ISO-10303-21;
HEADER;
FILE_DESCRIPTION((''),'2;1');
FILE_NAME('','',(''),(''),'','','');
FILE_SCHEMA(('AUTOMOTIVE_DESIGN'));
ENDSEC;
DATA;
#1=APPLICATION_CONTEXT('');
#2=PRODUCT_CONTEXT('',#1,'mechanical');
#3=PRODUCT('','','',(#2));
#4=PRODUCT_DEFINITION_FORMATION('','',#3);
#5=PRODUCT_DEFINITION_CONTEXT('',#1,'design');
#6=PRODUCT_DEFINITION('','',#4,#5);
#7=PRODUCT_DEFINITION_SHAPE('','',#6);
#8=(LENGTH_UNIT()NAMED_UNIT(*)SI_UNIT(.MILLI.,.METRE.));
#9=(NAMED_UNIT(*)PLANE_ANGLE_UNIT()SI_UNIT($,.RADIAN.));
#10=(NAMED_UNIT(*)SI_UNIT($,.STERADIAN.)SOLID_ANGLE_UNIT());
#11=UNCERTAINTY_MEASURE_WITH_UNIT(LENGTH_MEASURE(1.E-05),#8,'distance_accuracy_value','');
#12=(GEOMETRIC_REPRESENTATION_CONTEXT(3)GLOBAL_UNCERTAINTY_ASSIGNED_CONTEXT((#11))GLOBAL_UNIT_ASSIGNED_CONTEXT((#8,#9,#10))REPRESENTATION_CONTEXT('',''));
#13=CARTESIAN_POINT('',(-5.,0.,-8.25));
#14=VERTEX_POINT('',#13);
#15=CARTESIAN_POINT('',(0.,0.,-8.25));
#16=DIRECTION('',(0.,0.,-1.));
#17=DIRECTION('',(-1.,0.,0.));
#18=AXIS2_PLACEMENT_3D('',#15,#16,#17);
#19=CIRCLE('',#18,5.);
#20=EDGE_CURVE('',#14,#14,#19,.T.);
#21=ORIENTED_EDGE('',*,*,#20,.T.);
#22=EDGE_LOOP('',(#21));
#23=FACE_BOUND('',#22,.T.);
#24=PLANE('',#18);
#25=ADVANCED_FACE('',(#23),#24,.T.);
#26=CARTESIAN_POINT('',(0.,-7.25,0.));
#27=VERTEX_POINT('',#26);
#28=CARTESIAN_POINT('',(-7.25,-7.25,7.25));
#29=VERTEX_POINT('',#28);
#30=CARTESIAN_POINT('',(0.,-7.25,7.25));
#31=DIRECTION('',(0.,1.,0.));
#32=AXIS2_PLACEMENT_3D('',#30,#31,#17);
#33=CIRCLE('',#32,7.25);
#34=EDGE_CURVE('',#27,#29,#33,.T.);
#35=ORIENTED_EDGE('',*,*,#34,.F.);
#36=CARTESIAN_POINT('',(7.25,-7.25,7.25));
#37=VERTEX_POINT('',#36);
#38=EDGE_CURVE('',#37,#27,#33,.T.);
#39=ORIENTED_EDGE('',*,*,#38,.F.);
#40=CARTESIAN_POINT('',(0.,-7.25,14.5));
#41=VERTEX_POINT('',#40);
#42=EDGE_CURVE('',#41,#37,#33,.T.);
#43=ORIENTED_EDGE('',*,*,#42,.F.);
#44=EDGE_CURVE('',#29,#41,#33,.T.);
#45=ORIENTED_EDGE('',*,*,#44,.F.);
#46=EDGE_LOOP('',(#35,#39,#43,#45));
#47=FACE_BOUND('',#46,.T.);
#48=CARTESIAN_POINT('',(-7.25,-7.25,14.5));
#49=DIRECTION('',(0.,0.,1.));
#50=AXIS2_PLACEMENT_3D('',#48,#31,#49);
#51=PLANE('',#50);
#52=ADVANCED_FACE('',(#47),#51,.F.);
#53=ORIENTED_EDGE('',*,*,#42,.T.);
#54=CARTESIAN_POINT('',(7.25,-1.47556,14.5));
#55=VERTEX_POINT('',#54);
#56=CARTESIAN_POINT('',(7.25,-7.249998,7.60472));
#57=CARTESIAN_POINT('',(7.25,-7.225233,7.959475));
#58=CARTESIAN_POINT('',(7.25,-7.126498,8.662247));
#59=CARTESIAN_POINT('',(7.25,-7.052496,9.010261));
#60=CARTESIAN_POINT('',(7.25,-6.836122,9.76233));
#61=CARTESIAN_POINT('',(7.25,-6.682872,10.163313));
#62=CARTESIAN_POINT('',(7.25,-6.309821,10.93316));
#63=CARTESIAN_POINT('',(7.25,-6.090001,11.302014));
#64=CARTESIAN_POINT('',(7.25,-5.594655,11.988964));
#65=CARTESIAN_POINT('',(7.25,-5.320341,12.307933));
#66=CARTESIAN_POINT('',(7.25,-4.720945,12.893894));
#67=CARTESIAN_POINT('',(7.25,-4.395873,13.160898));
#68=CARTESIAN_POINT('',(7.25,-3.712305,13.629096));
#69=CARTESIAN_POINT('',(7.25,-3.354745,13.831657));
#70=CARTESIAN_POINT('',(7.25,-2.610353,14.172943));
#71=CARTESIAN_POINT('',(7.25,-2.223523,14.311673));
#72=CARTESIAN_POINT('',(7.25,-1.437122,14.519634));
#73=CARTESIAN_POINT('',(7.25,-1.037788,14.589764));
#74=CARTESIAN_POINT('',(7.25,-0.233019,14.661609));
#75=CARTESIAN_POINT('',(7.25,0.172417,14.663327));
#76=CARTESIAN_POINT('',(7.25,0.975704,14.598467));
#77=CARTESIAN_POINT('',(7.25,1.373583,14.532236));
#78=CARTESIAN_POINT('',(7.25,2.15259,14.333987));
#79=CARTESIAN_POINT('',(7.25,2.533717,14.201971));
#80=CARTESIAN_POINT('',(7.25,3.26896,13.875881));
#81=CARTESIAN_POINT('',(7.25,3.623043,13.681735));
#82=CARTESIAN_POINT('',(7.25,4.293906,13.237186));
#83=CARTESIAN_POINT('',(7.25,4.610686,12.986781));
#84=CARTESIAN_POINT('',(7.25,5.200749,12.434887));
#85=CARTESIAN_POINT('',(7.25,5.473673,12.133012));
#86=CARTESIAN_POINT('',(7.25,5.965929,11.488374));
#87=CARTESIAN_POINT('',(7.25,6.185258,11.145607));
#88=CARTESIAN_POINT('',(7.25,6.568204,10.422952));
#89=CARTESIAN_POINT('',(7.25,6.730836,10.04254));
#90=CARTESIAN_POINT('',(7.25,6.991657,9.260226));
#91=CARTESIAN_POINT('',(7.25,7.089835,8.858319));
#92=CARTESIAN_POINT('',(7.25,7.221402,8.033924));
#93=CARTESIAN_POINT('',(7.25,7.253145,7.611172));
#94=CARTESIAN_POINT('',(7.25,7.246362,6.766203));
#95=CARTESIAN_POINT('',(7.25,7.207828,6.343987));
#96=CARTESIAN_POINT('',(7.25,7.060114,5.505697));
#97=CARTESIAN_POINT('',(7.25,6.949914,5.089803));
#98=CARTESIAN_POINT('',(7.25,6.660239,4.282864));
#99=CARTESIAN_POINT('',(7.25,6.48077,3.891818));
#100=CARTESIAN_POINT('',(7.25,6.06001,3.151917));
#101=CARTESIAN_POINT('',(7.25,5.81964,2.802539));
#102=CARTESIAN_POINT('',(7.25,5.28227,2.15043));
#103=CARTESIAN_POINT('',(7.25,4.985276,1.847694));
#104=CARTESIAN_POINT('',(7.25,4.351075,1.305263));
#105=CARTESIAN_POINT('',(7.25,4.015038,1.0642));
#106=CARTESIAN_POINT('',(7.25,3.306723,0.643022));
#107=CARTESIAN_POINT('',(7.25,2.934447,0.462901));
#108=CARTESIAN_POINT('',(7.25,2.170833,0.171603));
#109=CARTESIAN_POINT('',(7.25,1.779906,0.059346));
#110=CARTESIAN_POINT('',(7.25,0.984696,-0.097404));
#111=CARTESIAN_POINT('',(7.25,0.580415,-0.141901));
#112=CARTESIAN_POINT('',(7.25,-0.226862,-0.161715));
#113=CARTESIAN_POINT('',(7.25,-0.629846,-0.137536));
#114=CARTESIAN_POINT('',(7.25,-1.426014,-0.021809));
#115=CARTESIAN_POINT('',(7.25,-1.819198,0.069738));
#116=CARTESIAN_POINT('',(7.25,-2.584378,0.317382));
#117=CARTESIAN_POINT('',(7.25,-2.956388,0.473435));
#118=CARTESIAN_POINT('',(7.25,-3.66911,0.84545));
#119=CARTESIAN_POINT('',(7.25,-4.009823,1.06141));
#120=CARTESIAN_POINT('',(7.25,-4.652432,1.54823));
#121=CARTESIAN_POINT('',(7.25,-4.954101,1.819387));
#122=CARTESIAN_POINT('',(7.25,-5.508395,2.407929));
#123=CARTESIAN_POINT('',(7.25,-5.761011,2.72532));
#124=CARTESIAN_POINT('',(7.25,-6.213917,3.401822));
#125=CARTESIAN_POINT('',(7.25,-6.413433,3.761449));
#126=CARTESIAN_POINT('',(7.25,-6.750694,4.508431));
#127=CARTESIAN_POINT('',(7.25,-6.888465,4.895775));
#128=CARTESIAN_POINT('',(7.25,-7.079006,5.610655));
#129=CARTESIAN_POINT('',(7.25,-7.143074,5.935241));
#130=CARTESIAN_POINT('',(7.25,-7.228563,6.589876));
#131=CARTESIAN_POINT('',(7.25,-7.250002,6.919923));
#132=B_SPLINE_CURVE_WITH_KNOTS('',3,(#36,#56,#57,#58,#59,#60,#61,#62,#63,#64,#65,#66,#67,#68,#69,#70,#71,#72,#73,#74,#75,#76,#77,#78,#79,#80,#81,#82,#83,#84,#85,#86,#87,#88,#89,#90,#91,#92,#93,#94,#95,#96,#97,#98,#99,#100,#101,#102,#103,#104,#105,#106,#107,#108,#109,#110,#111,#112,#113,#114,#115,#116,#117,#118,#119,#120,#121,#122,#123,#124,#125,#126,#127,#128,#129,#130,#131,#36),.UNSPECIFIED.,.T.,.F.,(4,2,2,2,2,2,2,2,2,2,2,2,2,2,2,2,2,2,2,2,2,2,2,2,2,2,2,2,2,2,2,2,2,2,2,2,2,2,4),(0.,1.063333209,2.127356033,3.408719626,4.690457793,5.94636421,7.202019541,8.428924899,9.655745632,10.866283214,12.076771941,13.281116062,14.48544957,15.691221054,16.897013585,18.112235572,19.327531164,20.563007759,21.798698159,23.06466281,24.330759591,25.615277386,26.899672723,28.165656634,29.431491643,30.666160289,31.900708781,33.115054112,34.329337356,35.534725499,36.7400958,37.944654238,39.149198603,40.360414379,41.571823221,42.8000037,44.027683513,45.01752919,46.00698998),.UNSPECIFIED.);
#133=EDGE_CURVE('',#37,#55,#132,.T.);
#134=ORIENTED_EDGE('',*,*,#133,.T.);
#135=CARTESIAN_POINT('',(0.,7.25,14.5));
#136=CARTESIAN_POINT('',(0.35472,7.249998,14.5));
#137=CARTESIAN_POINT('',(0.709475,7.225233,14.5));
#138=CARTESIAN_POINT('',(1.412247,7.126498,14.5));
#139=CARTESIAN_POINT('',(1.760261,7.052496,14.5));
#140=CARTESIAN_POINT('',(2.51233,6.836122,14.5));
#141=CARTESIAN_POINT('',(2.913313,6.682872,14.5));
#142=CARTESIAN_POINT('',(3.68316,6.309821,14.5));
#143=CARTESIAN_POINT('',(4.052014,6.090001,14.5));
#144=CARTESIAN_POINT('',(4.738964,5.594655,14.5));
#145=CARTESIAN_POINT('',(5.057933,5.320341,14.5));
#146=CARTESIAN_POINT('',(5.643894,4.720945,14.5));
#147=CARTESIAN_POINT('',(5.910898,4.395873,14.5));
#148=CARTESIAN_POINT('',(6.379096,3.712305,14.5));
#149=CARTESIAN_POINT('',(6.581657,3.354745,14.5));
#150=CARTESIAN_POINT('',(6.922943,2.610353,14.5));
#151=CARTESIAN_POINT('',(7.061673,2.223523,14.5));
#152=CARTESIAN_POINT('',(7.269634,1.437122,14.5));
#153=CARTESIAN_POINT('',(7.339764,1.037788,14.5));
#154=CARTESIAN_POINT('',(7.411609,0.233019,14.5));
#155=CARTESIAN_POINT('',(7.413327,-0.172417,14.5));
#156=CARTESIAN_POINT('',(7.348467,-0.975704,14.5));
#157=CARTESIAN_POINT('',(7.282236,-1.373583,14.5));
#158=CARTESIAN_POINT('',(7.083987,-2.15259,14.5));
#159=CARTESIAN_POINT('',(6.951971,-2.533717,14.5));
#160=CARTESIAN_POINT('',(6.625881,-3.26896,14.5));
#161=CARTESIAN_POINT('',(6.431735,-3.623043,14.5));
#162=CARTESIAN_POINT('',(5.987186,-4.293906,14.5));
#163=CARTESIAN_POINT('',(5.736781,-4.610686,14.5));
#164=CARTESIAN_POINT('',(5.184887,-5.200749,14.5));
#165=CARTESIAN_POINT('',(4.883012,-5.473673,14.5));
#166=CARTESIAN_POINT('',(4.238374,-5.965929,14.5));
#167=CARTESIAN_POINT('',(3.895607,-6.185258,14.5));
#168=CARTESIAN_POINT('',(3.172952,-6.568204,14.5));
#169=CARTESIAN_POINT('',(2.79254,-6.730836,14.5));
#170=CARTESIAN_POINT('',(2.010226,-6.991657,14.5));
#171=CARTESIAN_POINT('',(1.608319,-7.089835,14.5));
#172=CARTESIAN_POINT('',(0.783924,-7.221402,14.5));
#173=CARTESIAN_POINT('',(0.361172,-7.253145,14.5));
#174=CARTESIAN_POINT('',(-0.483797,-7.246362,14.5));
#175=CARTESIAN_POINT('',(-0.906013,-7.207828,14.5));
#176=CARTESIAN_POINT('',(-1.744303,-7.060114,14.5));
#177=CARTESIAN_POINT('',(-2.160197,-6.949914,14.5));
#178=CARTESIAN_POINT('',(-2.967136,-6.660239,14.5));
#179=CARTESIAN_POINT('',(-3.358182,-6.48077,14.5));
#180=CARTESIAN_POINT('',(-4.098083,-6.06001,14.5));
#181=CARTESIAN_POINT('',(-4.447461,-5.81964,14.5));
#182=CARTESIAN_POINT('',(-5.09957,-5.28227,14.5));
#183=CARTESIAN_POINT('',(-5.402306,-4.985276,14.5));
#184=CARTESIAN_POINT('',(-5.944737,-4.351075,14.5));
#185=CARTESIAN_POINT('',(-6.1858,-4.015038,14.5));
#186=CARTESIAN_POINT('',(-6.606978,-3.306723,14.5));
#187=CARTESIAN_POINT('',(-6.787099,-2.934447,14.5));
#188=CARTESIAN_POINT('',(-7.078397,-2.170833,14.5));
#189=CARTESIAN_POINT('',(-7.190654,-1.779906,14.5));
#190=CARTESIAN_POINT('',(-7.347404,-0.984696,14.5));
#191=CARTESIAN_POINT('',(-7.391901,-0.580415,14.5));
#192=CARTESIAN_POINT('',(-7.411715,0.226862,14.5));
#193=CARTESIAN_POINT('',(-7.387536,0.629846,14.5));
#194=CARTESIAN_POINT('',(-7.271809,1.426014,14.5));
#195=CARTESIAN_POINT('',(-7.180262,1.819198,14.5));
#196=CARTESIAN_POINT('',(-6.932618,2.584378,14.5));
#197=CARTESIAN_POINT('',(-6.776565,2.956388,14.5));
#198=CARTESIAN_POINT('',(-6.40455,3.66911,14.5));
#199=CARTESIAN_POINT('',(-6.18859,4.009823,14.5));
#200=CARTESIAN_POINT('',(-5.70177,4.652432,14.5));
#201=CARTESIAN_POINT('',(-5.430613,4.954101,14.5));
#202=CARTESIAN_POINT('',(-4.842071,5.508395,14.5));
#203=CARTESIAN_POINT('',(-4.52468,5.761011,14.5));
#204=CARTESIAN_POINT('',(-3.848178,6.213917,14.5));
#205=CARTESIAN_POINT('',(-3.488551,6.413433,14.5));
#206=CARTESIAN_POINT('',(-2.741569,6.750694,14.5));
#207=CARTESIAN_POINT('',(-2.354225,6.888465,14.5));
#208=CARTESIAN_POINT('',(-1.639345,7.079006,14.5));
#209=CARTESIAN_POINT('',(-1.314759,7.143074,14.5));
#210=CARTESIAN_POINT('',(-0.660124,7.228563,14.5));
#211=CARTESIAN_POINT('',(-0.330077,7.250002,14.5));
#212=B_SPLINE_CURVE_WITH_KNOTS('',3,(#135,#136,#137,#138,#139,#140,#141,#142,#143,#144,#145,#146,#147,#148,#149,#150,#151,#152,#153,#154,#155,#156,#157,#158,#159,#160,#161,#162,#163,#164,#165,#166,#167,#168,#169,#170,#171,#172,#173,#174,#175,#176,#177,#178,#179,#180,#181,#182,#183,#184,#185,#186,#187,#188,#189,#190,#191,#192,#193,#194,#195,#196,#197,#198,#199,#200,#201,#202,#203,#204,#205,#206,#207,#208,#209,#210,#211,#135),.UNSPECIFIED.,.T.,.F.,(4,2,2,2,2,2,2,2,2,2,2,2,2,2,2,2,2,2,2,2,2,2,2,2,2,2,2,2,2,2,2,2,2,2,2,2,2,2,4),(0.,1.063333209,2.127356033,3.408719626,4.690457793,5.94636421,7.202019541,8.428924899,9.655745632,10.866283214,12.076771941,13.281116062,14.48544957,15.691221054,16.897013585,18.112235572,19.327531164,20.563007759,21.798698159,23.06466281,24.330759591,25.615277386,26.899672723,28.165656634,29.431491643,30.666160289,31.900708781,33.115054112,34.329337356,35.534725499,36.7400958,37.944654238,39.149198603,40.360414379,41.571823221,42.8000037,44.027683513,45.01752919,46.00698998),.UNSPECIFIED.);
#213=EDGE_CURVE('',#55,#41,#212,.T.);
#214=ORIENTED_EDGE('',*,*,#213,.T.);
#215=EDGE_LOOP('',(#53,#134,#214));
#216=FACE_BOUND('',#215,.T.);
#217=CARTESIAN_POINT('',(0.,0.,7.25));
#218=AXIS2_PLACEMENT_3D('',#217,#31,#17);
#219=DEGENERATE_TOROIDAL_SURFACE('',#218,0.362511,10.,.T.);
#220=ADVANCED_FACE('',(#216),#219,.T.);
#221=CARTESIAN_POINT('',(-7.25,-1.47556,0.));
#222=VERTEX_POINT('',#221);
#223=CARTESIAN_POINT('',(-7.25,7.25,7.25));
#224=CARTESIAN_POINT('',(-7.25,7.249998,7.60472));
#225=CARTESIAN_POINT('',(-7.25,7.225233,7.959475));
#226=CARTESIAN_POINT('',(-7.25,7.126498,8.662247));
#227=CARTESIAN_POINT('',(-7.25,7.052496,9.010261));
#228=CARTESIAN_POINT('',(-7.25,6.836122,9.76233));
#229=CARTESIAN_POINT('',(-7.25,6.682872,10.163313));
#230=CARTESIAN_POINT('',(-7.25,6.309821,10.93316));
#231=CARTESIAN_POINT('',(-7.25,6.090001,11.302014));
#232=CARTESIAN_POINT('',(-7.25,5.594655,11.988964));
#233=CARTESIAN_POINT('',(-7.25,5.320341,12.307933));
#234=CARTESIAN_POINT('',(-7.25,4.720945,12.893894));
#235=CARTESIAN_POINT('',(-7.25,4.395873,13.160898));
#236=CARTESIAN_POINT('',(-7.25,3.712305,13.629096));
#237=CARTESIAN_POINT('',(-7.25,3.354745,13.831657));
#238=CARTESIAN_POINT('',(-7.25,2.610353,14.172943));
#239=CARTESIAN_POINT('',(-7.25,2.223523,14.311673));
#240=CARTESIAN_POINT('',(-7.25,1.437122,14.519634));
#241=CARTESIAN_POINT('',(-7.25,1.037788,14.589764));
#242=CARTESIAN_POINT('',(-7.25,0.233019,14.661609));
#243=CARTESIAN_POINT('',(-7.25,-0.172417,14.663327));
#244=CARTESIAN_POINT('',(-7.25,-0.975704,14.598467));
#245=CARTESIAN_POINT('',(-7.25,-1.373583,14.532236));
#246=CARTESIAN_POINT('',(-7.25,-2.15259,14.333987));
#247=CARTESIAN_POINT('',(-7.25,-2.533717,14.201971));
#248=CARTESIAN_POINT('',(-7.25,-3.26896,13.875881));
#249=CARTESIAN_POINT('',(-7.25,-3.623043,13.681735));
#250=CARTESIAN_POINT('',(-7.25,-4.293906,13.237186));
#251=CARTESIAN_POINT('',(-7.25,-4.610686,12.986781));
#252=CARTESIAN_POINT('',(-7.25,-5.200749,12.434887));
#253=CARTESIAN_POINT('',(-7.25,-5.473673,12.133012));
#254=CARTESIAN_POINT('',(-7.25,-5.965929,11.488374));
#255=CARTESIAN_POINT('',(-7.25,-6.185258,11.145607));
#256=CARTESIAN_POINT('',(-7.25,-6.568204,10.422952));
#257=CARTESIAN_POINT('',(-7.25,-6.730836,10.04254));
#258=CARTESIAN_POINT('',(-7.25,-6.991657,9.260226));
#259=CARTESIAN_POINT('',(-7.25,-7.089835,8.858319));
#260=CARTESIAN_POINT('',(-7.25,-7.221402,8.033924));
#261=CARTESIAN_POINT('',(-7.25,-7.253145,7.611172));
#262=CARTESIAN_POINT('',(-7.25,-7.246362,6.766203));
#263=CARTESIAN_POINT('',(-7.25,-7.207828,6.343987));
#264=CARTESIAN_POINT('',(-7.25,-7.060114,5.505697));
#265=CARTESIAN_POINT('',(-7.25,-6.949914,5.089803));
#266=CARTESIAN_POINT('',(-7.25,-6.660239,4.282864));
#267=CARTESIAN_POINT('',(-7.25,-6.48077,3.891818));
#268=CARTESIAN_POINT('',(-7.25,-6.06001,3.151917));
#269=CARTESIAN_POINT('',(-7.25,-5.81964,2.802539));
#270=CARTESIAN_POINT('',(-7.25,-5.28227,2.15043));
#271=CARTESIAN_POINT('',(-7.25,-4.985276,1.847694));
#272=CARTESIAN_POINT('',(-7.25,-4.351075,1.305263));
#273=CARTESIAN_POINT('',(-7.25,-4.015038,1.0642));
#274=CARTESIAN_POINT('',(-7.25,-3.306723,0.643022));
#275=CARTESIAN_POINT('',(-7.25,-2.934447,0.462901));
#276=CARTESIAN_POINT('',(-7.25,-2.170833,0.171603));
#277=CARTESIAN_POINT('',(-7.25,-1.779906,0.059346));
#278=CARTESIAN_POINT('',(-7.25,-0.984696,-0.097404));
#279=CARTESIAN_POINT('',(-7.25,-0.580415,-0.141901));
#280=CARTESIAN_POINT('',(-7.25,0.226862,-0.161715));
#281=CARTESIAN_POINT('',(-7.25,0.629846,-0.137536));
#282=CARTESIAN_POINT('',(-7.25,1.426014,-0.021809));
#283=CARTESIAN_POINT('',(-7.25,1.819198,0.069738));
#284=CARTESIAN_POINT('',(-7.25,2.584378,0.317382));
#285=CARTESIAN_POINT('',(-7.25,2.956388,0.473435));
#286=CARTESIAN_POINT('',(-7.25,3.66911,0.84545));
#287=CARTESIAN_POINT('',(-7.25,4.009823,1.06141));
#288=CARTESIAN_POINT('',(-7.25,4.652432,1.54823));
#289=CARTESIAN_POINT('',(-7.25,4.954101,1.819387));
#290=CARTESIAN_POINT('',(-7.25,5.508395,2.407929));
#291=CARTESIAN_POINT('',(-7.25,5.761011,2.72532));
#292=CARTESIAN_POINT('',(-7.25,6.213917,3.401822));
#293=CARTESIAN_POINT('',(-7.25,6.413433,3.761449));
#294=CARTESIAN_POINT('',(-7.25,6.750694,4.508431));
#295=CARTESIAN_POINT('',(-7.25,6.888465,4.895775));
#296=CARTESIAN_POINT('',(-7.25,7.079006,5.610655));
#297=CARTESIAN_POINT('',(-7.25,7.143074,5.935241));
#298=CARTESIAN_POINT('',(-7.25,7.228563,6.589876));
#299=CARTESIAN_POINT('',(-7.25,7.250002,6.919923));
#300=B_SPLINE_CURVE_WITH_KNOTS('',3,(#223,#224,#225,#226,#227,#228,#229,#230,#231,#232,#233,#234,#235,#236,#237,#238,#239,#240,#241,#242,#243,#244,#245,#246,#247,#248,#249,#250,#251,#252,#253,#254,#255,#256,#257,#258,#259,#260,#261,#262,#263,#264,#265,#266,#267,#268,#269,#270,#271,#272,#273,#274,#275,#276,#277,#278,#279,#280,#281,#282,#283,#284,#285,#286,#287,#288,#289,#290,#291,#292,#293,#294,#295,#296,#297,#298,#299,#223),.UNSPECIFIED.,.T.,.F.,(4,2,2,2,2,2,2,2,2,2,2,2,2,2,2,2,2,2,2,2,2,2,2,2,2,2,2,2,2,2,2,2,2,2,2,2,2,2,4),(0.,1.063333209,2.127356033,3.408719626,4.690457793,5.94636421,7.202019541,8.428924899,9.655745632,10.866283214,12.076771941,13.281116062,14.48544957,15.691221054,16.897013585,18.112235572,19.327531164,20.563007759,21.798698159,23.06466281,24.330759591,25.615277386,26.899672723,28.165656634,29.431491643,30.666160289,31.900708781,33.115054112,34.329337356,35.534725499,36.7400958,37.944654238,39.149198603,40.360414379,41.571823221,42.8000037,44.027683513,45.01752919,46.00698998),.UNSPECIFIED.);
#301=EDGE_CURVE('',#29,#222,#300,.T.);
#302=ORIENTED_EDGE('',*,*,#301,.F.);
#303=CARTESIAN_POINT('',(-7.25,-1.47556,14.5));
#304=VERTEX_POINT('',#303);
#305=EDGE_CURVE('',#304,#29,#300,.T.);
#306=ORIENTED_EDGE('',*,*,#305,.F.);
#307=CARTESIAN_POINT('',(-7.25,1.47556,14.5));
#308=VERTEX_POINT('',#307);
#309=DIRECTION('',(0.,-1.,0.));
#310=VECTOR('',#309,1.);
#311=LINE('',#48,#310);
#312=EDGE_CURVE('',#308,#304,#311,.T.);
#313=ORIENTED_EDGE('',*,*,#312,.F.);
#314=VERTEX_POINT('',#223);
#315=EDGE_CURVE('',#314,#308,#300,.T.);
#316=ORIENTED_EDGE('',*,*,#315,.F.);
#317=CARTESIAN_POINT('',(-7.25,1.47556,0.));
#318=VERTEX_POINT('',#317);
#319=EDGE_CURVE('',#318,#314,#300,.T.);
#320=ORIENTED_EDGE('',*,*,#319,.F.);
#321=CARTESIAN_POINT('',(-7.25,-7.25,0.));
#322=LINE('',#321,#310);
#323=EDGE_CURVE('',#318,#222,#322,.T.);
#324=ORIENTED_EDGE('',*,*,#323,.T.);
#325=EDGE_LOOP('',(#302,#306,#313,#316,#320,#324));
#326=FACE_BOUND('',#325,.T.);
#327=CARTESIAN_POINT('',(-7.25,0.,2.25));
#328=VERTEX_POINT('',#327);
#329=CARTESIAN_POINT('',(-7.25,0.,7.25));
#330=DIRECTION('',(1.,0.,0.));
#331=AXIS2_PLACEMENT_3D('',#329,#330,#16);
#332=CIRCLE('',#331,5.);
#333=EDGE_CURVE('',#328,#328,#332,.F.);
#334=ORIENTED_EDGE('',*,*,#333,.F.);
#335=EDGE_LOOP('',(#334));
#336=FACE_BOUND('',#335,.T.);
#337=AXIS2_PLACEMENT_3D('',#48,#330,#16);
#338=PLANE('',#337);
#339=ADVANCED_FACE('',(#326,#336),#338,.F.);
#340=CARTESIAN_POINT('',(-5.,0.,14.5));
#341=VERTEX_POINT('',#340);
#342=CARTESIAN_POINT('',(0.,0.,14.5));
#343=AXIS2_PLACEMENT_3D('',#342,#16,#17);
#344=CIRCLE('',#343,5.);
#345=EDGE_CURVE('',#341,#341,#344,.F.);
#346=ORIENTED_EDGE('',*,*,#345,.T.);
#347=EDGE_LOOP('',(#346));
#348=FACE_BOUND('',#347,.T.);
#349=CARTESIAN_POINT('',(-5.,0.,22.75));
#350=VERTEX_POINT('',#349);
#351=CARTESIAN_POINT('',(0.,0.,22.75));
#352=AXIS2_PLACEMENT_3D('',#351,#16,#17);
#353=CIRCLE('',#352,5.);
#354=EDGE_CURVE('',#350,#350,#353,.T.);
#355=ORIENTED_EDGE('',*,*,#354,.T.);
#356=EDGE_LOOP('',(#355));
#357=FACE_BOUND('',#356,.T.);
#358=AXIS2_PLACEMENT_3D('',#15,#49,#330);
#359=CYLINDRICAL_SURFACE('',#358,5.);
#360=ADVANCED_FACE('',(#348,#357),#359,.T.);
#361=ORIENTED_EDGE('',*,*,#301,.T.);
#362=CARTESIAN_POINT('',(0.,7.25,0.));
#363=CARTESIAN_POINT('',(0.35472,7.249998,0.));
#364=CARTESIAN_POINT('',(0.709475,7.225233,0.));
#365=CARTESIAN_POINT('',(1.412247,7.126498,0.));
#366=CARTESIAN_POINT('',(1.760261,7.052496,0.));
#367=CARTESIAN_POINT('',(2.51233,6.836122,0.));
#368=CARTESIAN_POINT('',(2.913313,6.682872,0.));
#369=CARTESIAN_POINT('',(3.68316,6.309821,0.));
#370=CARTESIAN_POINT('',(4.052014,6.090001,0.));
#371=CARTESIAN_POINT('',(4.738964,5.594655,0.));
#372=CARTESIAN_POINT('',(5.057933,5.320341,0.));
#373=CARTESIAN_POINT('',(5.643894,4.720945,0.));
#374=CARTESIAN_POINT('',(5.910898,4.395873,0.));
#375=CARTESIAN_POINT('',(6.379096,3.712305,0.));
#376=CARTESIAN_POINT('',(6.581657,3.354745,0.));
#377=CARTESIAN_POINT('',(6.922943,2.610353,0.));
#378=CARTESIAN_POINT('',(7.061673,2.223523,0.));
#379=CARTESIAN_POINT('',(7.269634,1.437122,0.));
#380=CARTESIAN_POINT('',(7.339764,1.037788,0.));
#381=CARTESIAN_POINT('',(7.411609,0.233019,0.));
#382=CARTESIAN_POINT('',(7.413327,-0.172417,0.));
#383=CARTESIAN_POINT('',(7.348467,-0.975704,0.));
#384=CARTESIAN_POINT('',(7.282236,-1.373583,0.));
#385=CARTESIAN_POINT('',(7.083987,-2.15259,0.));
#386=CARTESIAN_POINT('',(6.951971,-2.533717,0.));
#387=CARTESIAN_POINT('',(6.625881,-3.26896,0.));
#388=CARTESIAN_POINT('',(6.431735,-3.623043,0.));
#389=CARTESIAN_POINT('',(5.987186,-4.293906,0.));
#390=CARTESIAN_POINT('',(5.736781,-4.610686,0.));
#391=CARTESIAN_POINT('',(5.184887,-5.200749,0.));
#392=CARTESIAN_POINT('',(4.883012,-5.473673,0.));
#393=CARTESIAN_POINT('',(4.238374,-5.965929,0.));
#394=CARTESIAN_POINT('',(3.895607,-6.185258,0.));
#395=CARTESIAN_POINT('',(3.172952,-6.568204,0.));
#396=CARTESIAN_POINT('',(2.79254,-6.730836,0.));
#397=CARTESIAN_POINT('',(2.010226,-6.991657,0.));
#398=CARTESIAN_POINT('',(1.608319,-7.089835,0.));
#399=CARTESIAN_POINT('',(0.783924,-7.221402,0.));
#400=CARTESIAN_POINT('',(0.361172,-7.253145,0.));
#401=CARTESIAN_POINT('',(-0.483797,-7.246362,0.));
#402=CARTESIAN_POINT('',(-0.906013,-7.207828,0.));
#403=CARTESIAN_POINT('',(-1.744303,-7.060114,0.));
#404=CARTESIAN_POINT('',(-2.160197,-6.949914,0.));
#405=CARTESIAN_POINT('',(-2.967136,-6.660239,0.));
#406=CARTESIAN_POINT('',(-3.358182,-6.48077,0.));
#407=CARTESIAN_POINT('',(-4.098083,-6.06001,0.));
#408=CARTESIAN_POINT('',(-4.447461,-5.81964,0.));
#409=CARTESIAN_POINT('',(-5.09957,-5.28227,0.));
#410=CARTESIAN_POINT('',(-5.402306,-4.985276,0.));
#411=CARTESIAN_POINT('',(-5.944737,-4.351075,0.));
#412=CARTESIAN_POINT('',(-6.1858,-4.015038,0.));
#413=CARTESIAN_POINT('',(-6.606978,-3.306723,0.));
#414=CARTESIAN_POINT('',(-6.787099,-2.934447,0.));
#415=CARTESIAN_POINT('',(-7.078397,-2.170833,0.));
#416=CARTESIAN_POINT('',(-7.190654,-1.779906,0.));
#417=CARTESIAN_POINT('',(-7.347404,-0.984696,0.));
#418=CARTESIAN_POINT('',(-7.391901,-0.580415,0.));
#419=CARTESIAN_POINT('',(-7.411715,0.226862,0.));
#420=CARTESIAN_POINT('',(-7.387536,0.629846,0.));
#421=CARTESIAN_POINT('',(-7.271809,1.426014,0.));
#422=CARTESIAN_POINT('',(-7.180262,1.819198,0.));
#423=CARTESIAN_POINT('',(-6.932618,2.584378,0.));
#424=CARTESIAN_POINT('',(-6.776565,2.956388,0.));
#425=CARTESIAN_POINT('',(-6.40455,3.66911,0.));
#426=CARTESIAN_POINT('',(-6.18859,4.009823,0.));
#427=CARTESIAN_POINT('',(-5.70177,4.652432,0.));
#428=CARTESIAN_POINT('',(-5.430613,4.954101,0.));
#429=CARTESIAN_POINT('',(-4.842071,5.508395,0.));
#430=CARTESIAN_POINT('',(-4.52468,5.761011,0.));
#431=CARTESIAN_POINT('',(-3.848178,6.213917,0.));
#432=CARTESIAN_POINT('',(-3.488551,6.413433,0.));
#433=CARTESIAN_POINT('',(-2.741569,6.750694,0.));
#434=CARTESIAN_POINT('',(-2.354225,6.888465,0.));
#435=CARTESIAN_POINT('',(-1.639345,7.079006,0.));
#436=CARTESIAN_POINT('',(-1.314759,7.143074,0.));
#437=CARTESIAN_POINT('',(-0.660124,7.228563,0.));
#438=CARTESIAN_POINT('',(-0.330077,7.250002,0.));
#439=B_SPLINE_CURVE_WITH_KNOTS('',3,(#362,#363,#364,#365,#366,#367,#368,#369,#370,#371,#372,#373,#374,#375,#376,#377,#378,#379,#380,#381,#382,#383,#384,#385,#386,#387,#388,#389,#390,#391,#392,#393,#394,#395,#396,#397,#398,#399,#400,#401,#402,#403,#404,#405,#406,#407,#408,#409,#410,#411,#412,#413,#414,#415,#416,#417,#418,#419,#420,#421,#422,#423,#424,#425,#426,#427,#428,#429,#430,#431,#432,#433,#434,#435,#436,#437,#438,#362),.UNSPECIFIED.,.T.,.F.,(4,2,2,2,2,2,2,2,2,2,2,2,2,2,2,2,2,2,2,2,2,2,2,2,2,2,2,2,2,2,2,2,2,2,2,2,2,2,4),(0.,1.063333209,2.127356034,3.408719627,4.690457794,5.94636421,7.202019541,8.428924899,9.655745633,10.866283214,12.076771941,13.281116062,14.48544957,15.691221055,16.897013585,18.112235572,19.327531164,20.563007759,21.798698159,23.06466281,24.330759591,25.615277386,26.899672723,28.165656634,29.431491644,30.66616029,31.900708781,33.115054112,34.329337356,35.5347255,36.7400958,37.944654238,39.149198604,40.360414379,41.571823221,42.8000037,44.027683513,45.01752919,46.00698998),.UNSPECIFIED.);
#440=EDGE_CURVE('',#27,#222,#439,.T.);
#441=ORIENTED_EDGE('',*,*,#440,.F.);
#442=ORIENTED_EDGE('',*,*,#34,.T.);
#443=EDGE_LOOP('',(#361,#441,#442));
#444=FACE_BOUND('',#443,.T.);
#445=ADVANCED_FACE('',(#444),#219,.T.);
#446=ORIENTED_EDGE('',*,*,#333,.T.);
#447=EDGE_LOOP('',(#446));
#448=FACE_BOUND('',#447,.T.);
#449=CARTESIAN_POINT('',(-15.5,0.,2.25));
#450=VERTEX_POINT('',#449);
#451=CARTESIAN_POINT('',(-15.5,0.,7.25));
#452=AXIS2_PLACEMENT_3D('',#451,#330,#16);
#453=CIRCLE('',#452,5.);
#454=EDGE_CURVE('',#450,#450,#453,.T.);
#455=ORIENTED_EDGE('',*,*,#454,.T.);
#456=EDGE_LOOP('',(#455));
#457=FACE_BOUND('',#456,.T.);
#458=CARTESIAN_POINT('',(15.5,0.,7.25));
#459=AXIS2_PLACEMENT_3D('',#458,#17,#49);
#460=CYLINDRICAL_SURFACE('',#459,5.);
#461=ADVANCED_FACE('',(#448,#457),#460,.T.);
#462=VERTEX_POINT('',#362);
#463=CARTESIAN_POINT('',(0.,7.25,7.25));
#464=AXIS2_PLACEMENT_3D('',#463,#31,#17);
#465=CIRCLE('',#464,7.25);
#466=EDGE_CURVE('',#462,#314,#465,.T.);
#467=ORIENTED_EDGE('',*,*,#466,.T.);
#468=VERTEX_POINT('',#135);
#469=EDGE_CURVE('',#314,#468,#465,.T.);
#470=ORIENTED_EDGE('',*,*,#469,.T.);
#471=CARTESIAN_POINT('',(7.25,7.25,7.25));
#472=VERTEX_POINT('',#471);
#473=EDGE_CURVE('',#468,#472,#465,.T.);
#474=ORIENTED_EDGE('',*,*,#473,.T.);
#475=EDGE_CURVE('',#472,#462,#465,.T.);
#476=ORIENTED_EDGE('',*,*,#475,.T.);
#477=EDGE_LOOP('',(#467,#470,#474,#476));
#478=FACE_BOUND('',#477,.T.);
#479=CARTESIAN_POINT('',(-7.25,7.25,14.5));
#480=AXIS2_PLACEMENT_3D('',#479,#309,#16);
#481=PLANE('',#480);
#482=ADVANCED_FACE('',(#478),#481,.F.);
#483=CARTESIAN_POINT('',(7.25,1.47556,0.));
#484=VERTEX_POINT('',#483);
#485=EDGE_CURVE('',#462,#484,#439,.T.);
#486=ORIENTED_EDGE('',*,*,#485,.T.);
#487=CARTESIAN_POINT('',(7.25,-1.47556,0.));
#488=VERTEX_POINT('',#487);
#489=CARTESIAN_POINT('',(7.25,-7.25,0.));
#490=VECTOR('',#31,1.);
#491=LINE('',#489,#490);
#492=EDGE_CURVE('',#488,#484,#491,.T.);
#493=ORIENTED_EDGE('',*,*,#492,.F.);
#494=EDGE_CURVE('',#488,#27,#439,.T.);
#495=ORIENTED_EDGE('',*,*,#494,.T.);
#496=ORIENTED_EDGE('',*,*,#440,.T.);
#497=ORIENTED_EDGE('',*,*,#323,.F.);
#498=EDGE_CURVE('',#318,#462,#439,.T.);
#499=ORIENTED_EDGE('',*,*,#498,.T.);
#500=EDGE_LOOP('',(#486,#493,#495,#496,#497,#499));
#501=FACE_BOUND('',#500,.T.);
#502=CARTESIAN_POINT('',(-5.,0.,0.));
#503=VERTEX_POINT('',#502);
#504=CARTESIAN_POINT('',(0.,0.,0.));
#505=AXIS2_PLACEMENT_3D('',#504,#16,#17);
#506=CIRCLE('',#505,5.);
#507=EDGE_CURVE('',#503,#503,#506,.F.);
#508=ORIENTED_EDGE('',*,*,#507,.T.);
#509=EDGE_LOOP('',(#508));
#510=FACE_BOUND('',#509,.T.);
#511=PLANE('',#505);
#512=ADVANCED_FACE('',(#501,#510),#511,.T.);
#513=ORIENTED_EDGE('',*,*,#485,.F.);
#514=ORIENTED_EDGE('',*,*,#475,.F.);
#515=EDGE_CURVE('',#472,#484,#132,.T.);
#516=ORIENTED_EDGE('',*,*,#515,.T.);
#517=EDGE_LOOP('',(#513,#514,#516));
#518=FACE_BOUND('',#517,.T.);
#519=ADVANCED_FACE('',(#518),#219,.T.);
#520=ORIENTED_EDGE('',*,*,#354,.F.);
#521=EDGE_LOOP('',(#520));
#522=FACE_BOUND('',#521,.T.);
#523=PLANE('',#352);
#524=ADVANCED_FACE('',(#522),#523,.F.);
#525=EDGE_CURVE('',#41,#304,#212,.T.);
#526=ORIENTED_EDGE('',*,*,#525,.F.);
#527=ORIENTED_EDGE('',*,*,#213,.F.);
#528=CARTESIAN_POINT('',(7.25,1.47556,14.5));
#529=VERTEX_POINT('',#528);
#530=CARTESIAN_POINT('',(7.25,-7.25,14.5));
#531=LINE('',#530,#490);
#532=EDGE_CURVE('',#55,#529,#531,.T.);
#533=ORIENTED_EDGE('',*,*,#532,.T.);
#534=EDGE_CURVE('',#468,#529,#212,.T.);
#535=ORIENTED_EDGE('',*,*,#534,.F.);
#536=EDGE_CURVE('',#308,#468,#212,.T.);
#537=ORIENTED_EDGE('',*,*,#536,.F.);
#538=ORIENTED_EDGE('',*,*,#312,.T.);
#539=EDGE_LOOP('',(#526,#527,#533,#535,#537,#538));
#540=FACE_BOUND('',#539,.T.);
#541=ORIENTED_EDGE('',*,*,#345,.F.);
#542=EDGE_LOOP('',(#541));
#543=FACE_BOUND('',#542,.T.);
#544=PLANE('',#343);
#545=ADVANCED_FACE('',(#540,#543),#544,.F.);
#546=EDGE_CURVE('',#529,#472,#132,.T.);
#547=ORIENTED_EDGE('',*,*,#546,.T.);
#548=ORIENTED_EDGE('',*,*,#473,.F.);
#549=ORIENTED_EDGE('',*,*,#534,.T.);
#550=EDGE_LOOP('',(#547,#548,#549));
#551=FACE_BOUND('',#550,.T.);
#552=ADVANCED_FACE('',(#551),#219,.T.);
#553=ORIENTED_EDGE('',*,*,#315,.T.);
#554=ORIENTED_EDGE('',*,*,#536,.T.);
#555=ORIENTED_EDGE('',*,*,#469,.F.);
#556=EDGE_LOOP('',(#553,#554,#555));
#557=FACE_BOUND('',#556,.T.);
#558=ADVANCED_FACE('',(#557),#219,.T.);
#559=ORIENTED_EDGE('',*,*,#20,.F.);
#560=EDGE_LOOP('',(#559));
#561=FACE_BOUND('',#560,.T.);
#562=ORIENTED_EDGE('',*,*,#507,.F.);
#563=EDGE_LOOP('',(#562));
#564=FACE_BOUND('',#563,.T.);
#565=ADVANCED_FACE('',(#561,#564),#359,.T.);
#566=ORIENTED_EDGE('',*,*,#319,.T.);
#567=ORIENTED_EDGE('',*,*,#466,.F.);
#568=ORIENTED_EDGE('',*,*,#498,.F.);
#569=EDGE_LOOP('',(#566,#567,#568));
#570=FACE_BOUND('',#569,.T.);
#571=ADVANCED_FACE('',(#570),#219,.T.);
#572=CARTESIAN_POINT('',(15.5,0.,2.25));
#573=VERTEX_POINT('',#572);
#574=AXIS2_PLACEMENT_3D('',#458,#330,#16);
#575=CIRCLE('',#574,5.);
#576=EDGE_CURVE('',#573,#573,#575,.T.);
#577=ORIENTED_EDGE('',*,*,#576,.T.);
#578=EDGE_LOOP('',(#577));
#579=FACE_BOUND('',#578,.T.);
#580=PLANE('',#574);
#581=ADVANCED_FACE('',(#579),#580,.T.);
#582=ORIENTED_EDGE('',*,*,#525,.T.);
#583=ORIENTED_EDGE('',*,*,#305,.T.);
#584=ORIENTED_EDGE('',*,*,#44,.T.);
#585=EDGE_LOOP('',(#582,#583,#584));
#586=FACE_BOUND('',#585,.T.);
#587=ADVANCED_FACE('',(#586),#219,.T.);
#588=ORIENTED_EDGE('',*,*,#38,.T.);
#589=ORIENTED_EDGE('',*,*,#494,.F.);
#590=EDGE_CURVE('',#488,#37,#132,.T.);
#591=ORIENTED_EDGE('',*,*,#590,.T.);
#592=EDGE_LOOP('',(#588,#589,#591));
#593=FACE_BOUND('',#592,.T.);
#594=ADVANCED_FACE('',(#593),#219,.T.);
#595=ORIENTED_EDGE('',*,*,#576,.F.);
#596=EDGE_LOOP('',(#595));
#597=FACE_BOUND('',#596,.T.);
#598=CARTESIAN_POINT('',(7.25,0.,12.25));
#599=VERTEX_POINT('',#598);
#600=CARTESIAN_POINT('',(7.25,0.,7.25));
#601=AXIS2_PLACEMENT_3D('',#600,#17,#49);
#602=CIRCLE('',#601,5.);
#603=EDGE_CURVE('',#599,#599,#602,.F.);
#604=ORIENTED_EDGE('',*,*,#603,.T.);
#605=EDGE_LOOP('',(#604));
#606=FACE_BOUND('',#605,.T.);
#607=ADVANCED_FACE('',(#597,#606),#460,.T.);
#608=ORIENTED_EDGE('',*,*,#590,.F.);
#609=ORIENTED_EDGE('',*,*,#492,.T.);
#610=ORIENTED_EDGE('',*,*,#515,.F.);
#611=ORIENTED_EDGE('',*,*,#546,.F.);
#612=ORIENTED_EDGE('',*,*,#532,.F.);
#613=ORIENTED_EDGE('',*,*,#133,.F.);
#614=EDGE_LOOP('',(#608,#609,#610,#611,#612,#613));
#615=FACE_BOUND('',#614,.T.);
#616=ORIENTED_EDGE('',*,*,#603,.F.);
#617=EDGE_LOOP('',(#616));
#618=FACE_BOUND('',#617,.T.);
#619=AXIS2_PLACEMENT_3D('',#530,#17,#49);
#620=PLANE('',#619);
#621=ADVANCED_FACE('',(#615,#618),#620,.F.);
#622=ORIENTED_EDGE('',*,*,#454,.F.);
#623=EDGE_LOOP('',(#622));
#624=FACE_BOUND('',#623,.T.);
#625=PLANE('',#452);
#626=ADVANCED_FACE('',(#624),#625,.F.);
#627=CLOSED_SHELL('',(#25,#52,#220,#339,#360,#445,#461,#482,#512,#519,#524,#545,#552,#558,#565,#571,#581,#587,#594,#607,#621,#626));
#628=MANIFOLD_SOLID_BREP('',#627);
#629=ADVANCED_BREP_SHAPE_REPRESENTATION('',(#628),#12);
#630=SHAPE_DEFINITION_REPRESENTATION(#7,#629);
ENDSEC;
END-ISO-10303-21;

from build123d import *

# Parameters (mm, degrees)
SKETCH1_W           = 14.5
SKETCH1_H           = 14.5
BOSS_EXTRUDE1_DEPTH = 14.5
SKETCH6_R           = 5
BOSS_EXTRUDE2_DEPTH = 15.5
SKETCH7_R           = 5
BOSS_EXTRUDE3_DEPTH = 15.5


with BuildPart() as part:
    # Sketch1 → Boss-Extrude1 (new body)
    with BuildSketch(Plane.XY):
        Rectangle(SKETCH1_W, SKETCH1_H)
    extrude(amount=BOSS_EXTRUDE1_DEPTH)

    # Sketch5 → Cut-Revolve1 (revolve, cut)
    with BuildSketch(Plane(origin=(3.625, 0, 3.625), x_dir=(-0.7071067811865477, 0, 0.7071067811865475), z_dir=(-0.7071067811865475, 0, -0.7071067811865477))):
        with BuildLine():
            Line((12.376524164, 7.25), (16.846797481, 7.25))
            Line((16.846797481, 7.25), (16.846797481, -7.25))
            Line((16.846797481, -7.25), (12.376524164, -7.25))
            ThreePointArc((12.376524164, -7.25), (15.489035507, 0), (12.376524164, 7.25))
        make_face()
    revolve(axis=Axis((0, 7.25, 7.25), (0, -1, 0)), mode=Mode.SUBTRACT)

    # Sketch6 → Boss-Extrude2 (add, symmetric)
    with BuildSketch(Plane(origin=(0, 0, 0), x_dir=(0, 0, -1), z_dir=(1, 0, 0))):
        with Locations(Location((-7.25, 0, 0), (0, 0, 180))):
            Circle(SKETCH6_R)
    extrude(amount=BOSS_EXTRUDE2_DEPTH, both=True)

    # Sketch7 → Boss-Extrude3 (add, symmetric)
    with BuildSketch(Plane(origin=(0, 0, 7.25), x_dir=(-1, 0, 0), z_dir=(0, 0, -1))):
        Circle(SKETCH7_R)
    extrude(amount=BOSS_EXTRUDE3_DEPTH, both=True)


solid = part.part
